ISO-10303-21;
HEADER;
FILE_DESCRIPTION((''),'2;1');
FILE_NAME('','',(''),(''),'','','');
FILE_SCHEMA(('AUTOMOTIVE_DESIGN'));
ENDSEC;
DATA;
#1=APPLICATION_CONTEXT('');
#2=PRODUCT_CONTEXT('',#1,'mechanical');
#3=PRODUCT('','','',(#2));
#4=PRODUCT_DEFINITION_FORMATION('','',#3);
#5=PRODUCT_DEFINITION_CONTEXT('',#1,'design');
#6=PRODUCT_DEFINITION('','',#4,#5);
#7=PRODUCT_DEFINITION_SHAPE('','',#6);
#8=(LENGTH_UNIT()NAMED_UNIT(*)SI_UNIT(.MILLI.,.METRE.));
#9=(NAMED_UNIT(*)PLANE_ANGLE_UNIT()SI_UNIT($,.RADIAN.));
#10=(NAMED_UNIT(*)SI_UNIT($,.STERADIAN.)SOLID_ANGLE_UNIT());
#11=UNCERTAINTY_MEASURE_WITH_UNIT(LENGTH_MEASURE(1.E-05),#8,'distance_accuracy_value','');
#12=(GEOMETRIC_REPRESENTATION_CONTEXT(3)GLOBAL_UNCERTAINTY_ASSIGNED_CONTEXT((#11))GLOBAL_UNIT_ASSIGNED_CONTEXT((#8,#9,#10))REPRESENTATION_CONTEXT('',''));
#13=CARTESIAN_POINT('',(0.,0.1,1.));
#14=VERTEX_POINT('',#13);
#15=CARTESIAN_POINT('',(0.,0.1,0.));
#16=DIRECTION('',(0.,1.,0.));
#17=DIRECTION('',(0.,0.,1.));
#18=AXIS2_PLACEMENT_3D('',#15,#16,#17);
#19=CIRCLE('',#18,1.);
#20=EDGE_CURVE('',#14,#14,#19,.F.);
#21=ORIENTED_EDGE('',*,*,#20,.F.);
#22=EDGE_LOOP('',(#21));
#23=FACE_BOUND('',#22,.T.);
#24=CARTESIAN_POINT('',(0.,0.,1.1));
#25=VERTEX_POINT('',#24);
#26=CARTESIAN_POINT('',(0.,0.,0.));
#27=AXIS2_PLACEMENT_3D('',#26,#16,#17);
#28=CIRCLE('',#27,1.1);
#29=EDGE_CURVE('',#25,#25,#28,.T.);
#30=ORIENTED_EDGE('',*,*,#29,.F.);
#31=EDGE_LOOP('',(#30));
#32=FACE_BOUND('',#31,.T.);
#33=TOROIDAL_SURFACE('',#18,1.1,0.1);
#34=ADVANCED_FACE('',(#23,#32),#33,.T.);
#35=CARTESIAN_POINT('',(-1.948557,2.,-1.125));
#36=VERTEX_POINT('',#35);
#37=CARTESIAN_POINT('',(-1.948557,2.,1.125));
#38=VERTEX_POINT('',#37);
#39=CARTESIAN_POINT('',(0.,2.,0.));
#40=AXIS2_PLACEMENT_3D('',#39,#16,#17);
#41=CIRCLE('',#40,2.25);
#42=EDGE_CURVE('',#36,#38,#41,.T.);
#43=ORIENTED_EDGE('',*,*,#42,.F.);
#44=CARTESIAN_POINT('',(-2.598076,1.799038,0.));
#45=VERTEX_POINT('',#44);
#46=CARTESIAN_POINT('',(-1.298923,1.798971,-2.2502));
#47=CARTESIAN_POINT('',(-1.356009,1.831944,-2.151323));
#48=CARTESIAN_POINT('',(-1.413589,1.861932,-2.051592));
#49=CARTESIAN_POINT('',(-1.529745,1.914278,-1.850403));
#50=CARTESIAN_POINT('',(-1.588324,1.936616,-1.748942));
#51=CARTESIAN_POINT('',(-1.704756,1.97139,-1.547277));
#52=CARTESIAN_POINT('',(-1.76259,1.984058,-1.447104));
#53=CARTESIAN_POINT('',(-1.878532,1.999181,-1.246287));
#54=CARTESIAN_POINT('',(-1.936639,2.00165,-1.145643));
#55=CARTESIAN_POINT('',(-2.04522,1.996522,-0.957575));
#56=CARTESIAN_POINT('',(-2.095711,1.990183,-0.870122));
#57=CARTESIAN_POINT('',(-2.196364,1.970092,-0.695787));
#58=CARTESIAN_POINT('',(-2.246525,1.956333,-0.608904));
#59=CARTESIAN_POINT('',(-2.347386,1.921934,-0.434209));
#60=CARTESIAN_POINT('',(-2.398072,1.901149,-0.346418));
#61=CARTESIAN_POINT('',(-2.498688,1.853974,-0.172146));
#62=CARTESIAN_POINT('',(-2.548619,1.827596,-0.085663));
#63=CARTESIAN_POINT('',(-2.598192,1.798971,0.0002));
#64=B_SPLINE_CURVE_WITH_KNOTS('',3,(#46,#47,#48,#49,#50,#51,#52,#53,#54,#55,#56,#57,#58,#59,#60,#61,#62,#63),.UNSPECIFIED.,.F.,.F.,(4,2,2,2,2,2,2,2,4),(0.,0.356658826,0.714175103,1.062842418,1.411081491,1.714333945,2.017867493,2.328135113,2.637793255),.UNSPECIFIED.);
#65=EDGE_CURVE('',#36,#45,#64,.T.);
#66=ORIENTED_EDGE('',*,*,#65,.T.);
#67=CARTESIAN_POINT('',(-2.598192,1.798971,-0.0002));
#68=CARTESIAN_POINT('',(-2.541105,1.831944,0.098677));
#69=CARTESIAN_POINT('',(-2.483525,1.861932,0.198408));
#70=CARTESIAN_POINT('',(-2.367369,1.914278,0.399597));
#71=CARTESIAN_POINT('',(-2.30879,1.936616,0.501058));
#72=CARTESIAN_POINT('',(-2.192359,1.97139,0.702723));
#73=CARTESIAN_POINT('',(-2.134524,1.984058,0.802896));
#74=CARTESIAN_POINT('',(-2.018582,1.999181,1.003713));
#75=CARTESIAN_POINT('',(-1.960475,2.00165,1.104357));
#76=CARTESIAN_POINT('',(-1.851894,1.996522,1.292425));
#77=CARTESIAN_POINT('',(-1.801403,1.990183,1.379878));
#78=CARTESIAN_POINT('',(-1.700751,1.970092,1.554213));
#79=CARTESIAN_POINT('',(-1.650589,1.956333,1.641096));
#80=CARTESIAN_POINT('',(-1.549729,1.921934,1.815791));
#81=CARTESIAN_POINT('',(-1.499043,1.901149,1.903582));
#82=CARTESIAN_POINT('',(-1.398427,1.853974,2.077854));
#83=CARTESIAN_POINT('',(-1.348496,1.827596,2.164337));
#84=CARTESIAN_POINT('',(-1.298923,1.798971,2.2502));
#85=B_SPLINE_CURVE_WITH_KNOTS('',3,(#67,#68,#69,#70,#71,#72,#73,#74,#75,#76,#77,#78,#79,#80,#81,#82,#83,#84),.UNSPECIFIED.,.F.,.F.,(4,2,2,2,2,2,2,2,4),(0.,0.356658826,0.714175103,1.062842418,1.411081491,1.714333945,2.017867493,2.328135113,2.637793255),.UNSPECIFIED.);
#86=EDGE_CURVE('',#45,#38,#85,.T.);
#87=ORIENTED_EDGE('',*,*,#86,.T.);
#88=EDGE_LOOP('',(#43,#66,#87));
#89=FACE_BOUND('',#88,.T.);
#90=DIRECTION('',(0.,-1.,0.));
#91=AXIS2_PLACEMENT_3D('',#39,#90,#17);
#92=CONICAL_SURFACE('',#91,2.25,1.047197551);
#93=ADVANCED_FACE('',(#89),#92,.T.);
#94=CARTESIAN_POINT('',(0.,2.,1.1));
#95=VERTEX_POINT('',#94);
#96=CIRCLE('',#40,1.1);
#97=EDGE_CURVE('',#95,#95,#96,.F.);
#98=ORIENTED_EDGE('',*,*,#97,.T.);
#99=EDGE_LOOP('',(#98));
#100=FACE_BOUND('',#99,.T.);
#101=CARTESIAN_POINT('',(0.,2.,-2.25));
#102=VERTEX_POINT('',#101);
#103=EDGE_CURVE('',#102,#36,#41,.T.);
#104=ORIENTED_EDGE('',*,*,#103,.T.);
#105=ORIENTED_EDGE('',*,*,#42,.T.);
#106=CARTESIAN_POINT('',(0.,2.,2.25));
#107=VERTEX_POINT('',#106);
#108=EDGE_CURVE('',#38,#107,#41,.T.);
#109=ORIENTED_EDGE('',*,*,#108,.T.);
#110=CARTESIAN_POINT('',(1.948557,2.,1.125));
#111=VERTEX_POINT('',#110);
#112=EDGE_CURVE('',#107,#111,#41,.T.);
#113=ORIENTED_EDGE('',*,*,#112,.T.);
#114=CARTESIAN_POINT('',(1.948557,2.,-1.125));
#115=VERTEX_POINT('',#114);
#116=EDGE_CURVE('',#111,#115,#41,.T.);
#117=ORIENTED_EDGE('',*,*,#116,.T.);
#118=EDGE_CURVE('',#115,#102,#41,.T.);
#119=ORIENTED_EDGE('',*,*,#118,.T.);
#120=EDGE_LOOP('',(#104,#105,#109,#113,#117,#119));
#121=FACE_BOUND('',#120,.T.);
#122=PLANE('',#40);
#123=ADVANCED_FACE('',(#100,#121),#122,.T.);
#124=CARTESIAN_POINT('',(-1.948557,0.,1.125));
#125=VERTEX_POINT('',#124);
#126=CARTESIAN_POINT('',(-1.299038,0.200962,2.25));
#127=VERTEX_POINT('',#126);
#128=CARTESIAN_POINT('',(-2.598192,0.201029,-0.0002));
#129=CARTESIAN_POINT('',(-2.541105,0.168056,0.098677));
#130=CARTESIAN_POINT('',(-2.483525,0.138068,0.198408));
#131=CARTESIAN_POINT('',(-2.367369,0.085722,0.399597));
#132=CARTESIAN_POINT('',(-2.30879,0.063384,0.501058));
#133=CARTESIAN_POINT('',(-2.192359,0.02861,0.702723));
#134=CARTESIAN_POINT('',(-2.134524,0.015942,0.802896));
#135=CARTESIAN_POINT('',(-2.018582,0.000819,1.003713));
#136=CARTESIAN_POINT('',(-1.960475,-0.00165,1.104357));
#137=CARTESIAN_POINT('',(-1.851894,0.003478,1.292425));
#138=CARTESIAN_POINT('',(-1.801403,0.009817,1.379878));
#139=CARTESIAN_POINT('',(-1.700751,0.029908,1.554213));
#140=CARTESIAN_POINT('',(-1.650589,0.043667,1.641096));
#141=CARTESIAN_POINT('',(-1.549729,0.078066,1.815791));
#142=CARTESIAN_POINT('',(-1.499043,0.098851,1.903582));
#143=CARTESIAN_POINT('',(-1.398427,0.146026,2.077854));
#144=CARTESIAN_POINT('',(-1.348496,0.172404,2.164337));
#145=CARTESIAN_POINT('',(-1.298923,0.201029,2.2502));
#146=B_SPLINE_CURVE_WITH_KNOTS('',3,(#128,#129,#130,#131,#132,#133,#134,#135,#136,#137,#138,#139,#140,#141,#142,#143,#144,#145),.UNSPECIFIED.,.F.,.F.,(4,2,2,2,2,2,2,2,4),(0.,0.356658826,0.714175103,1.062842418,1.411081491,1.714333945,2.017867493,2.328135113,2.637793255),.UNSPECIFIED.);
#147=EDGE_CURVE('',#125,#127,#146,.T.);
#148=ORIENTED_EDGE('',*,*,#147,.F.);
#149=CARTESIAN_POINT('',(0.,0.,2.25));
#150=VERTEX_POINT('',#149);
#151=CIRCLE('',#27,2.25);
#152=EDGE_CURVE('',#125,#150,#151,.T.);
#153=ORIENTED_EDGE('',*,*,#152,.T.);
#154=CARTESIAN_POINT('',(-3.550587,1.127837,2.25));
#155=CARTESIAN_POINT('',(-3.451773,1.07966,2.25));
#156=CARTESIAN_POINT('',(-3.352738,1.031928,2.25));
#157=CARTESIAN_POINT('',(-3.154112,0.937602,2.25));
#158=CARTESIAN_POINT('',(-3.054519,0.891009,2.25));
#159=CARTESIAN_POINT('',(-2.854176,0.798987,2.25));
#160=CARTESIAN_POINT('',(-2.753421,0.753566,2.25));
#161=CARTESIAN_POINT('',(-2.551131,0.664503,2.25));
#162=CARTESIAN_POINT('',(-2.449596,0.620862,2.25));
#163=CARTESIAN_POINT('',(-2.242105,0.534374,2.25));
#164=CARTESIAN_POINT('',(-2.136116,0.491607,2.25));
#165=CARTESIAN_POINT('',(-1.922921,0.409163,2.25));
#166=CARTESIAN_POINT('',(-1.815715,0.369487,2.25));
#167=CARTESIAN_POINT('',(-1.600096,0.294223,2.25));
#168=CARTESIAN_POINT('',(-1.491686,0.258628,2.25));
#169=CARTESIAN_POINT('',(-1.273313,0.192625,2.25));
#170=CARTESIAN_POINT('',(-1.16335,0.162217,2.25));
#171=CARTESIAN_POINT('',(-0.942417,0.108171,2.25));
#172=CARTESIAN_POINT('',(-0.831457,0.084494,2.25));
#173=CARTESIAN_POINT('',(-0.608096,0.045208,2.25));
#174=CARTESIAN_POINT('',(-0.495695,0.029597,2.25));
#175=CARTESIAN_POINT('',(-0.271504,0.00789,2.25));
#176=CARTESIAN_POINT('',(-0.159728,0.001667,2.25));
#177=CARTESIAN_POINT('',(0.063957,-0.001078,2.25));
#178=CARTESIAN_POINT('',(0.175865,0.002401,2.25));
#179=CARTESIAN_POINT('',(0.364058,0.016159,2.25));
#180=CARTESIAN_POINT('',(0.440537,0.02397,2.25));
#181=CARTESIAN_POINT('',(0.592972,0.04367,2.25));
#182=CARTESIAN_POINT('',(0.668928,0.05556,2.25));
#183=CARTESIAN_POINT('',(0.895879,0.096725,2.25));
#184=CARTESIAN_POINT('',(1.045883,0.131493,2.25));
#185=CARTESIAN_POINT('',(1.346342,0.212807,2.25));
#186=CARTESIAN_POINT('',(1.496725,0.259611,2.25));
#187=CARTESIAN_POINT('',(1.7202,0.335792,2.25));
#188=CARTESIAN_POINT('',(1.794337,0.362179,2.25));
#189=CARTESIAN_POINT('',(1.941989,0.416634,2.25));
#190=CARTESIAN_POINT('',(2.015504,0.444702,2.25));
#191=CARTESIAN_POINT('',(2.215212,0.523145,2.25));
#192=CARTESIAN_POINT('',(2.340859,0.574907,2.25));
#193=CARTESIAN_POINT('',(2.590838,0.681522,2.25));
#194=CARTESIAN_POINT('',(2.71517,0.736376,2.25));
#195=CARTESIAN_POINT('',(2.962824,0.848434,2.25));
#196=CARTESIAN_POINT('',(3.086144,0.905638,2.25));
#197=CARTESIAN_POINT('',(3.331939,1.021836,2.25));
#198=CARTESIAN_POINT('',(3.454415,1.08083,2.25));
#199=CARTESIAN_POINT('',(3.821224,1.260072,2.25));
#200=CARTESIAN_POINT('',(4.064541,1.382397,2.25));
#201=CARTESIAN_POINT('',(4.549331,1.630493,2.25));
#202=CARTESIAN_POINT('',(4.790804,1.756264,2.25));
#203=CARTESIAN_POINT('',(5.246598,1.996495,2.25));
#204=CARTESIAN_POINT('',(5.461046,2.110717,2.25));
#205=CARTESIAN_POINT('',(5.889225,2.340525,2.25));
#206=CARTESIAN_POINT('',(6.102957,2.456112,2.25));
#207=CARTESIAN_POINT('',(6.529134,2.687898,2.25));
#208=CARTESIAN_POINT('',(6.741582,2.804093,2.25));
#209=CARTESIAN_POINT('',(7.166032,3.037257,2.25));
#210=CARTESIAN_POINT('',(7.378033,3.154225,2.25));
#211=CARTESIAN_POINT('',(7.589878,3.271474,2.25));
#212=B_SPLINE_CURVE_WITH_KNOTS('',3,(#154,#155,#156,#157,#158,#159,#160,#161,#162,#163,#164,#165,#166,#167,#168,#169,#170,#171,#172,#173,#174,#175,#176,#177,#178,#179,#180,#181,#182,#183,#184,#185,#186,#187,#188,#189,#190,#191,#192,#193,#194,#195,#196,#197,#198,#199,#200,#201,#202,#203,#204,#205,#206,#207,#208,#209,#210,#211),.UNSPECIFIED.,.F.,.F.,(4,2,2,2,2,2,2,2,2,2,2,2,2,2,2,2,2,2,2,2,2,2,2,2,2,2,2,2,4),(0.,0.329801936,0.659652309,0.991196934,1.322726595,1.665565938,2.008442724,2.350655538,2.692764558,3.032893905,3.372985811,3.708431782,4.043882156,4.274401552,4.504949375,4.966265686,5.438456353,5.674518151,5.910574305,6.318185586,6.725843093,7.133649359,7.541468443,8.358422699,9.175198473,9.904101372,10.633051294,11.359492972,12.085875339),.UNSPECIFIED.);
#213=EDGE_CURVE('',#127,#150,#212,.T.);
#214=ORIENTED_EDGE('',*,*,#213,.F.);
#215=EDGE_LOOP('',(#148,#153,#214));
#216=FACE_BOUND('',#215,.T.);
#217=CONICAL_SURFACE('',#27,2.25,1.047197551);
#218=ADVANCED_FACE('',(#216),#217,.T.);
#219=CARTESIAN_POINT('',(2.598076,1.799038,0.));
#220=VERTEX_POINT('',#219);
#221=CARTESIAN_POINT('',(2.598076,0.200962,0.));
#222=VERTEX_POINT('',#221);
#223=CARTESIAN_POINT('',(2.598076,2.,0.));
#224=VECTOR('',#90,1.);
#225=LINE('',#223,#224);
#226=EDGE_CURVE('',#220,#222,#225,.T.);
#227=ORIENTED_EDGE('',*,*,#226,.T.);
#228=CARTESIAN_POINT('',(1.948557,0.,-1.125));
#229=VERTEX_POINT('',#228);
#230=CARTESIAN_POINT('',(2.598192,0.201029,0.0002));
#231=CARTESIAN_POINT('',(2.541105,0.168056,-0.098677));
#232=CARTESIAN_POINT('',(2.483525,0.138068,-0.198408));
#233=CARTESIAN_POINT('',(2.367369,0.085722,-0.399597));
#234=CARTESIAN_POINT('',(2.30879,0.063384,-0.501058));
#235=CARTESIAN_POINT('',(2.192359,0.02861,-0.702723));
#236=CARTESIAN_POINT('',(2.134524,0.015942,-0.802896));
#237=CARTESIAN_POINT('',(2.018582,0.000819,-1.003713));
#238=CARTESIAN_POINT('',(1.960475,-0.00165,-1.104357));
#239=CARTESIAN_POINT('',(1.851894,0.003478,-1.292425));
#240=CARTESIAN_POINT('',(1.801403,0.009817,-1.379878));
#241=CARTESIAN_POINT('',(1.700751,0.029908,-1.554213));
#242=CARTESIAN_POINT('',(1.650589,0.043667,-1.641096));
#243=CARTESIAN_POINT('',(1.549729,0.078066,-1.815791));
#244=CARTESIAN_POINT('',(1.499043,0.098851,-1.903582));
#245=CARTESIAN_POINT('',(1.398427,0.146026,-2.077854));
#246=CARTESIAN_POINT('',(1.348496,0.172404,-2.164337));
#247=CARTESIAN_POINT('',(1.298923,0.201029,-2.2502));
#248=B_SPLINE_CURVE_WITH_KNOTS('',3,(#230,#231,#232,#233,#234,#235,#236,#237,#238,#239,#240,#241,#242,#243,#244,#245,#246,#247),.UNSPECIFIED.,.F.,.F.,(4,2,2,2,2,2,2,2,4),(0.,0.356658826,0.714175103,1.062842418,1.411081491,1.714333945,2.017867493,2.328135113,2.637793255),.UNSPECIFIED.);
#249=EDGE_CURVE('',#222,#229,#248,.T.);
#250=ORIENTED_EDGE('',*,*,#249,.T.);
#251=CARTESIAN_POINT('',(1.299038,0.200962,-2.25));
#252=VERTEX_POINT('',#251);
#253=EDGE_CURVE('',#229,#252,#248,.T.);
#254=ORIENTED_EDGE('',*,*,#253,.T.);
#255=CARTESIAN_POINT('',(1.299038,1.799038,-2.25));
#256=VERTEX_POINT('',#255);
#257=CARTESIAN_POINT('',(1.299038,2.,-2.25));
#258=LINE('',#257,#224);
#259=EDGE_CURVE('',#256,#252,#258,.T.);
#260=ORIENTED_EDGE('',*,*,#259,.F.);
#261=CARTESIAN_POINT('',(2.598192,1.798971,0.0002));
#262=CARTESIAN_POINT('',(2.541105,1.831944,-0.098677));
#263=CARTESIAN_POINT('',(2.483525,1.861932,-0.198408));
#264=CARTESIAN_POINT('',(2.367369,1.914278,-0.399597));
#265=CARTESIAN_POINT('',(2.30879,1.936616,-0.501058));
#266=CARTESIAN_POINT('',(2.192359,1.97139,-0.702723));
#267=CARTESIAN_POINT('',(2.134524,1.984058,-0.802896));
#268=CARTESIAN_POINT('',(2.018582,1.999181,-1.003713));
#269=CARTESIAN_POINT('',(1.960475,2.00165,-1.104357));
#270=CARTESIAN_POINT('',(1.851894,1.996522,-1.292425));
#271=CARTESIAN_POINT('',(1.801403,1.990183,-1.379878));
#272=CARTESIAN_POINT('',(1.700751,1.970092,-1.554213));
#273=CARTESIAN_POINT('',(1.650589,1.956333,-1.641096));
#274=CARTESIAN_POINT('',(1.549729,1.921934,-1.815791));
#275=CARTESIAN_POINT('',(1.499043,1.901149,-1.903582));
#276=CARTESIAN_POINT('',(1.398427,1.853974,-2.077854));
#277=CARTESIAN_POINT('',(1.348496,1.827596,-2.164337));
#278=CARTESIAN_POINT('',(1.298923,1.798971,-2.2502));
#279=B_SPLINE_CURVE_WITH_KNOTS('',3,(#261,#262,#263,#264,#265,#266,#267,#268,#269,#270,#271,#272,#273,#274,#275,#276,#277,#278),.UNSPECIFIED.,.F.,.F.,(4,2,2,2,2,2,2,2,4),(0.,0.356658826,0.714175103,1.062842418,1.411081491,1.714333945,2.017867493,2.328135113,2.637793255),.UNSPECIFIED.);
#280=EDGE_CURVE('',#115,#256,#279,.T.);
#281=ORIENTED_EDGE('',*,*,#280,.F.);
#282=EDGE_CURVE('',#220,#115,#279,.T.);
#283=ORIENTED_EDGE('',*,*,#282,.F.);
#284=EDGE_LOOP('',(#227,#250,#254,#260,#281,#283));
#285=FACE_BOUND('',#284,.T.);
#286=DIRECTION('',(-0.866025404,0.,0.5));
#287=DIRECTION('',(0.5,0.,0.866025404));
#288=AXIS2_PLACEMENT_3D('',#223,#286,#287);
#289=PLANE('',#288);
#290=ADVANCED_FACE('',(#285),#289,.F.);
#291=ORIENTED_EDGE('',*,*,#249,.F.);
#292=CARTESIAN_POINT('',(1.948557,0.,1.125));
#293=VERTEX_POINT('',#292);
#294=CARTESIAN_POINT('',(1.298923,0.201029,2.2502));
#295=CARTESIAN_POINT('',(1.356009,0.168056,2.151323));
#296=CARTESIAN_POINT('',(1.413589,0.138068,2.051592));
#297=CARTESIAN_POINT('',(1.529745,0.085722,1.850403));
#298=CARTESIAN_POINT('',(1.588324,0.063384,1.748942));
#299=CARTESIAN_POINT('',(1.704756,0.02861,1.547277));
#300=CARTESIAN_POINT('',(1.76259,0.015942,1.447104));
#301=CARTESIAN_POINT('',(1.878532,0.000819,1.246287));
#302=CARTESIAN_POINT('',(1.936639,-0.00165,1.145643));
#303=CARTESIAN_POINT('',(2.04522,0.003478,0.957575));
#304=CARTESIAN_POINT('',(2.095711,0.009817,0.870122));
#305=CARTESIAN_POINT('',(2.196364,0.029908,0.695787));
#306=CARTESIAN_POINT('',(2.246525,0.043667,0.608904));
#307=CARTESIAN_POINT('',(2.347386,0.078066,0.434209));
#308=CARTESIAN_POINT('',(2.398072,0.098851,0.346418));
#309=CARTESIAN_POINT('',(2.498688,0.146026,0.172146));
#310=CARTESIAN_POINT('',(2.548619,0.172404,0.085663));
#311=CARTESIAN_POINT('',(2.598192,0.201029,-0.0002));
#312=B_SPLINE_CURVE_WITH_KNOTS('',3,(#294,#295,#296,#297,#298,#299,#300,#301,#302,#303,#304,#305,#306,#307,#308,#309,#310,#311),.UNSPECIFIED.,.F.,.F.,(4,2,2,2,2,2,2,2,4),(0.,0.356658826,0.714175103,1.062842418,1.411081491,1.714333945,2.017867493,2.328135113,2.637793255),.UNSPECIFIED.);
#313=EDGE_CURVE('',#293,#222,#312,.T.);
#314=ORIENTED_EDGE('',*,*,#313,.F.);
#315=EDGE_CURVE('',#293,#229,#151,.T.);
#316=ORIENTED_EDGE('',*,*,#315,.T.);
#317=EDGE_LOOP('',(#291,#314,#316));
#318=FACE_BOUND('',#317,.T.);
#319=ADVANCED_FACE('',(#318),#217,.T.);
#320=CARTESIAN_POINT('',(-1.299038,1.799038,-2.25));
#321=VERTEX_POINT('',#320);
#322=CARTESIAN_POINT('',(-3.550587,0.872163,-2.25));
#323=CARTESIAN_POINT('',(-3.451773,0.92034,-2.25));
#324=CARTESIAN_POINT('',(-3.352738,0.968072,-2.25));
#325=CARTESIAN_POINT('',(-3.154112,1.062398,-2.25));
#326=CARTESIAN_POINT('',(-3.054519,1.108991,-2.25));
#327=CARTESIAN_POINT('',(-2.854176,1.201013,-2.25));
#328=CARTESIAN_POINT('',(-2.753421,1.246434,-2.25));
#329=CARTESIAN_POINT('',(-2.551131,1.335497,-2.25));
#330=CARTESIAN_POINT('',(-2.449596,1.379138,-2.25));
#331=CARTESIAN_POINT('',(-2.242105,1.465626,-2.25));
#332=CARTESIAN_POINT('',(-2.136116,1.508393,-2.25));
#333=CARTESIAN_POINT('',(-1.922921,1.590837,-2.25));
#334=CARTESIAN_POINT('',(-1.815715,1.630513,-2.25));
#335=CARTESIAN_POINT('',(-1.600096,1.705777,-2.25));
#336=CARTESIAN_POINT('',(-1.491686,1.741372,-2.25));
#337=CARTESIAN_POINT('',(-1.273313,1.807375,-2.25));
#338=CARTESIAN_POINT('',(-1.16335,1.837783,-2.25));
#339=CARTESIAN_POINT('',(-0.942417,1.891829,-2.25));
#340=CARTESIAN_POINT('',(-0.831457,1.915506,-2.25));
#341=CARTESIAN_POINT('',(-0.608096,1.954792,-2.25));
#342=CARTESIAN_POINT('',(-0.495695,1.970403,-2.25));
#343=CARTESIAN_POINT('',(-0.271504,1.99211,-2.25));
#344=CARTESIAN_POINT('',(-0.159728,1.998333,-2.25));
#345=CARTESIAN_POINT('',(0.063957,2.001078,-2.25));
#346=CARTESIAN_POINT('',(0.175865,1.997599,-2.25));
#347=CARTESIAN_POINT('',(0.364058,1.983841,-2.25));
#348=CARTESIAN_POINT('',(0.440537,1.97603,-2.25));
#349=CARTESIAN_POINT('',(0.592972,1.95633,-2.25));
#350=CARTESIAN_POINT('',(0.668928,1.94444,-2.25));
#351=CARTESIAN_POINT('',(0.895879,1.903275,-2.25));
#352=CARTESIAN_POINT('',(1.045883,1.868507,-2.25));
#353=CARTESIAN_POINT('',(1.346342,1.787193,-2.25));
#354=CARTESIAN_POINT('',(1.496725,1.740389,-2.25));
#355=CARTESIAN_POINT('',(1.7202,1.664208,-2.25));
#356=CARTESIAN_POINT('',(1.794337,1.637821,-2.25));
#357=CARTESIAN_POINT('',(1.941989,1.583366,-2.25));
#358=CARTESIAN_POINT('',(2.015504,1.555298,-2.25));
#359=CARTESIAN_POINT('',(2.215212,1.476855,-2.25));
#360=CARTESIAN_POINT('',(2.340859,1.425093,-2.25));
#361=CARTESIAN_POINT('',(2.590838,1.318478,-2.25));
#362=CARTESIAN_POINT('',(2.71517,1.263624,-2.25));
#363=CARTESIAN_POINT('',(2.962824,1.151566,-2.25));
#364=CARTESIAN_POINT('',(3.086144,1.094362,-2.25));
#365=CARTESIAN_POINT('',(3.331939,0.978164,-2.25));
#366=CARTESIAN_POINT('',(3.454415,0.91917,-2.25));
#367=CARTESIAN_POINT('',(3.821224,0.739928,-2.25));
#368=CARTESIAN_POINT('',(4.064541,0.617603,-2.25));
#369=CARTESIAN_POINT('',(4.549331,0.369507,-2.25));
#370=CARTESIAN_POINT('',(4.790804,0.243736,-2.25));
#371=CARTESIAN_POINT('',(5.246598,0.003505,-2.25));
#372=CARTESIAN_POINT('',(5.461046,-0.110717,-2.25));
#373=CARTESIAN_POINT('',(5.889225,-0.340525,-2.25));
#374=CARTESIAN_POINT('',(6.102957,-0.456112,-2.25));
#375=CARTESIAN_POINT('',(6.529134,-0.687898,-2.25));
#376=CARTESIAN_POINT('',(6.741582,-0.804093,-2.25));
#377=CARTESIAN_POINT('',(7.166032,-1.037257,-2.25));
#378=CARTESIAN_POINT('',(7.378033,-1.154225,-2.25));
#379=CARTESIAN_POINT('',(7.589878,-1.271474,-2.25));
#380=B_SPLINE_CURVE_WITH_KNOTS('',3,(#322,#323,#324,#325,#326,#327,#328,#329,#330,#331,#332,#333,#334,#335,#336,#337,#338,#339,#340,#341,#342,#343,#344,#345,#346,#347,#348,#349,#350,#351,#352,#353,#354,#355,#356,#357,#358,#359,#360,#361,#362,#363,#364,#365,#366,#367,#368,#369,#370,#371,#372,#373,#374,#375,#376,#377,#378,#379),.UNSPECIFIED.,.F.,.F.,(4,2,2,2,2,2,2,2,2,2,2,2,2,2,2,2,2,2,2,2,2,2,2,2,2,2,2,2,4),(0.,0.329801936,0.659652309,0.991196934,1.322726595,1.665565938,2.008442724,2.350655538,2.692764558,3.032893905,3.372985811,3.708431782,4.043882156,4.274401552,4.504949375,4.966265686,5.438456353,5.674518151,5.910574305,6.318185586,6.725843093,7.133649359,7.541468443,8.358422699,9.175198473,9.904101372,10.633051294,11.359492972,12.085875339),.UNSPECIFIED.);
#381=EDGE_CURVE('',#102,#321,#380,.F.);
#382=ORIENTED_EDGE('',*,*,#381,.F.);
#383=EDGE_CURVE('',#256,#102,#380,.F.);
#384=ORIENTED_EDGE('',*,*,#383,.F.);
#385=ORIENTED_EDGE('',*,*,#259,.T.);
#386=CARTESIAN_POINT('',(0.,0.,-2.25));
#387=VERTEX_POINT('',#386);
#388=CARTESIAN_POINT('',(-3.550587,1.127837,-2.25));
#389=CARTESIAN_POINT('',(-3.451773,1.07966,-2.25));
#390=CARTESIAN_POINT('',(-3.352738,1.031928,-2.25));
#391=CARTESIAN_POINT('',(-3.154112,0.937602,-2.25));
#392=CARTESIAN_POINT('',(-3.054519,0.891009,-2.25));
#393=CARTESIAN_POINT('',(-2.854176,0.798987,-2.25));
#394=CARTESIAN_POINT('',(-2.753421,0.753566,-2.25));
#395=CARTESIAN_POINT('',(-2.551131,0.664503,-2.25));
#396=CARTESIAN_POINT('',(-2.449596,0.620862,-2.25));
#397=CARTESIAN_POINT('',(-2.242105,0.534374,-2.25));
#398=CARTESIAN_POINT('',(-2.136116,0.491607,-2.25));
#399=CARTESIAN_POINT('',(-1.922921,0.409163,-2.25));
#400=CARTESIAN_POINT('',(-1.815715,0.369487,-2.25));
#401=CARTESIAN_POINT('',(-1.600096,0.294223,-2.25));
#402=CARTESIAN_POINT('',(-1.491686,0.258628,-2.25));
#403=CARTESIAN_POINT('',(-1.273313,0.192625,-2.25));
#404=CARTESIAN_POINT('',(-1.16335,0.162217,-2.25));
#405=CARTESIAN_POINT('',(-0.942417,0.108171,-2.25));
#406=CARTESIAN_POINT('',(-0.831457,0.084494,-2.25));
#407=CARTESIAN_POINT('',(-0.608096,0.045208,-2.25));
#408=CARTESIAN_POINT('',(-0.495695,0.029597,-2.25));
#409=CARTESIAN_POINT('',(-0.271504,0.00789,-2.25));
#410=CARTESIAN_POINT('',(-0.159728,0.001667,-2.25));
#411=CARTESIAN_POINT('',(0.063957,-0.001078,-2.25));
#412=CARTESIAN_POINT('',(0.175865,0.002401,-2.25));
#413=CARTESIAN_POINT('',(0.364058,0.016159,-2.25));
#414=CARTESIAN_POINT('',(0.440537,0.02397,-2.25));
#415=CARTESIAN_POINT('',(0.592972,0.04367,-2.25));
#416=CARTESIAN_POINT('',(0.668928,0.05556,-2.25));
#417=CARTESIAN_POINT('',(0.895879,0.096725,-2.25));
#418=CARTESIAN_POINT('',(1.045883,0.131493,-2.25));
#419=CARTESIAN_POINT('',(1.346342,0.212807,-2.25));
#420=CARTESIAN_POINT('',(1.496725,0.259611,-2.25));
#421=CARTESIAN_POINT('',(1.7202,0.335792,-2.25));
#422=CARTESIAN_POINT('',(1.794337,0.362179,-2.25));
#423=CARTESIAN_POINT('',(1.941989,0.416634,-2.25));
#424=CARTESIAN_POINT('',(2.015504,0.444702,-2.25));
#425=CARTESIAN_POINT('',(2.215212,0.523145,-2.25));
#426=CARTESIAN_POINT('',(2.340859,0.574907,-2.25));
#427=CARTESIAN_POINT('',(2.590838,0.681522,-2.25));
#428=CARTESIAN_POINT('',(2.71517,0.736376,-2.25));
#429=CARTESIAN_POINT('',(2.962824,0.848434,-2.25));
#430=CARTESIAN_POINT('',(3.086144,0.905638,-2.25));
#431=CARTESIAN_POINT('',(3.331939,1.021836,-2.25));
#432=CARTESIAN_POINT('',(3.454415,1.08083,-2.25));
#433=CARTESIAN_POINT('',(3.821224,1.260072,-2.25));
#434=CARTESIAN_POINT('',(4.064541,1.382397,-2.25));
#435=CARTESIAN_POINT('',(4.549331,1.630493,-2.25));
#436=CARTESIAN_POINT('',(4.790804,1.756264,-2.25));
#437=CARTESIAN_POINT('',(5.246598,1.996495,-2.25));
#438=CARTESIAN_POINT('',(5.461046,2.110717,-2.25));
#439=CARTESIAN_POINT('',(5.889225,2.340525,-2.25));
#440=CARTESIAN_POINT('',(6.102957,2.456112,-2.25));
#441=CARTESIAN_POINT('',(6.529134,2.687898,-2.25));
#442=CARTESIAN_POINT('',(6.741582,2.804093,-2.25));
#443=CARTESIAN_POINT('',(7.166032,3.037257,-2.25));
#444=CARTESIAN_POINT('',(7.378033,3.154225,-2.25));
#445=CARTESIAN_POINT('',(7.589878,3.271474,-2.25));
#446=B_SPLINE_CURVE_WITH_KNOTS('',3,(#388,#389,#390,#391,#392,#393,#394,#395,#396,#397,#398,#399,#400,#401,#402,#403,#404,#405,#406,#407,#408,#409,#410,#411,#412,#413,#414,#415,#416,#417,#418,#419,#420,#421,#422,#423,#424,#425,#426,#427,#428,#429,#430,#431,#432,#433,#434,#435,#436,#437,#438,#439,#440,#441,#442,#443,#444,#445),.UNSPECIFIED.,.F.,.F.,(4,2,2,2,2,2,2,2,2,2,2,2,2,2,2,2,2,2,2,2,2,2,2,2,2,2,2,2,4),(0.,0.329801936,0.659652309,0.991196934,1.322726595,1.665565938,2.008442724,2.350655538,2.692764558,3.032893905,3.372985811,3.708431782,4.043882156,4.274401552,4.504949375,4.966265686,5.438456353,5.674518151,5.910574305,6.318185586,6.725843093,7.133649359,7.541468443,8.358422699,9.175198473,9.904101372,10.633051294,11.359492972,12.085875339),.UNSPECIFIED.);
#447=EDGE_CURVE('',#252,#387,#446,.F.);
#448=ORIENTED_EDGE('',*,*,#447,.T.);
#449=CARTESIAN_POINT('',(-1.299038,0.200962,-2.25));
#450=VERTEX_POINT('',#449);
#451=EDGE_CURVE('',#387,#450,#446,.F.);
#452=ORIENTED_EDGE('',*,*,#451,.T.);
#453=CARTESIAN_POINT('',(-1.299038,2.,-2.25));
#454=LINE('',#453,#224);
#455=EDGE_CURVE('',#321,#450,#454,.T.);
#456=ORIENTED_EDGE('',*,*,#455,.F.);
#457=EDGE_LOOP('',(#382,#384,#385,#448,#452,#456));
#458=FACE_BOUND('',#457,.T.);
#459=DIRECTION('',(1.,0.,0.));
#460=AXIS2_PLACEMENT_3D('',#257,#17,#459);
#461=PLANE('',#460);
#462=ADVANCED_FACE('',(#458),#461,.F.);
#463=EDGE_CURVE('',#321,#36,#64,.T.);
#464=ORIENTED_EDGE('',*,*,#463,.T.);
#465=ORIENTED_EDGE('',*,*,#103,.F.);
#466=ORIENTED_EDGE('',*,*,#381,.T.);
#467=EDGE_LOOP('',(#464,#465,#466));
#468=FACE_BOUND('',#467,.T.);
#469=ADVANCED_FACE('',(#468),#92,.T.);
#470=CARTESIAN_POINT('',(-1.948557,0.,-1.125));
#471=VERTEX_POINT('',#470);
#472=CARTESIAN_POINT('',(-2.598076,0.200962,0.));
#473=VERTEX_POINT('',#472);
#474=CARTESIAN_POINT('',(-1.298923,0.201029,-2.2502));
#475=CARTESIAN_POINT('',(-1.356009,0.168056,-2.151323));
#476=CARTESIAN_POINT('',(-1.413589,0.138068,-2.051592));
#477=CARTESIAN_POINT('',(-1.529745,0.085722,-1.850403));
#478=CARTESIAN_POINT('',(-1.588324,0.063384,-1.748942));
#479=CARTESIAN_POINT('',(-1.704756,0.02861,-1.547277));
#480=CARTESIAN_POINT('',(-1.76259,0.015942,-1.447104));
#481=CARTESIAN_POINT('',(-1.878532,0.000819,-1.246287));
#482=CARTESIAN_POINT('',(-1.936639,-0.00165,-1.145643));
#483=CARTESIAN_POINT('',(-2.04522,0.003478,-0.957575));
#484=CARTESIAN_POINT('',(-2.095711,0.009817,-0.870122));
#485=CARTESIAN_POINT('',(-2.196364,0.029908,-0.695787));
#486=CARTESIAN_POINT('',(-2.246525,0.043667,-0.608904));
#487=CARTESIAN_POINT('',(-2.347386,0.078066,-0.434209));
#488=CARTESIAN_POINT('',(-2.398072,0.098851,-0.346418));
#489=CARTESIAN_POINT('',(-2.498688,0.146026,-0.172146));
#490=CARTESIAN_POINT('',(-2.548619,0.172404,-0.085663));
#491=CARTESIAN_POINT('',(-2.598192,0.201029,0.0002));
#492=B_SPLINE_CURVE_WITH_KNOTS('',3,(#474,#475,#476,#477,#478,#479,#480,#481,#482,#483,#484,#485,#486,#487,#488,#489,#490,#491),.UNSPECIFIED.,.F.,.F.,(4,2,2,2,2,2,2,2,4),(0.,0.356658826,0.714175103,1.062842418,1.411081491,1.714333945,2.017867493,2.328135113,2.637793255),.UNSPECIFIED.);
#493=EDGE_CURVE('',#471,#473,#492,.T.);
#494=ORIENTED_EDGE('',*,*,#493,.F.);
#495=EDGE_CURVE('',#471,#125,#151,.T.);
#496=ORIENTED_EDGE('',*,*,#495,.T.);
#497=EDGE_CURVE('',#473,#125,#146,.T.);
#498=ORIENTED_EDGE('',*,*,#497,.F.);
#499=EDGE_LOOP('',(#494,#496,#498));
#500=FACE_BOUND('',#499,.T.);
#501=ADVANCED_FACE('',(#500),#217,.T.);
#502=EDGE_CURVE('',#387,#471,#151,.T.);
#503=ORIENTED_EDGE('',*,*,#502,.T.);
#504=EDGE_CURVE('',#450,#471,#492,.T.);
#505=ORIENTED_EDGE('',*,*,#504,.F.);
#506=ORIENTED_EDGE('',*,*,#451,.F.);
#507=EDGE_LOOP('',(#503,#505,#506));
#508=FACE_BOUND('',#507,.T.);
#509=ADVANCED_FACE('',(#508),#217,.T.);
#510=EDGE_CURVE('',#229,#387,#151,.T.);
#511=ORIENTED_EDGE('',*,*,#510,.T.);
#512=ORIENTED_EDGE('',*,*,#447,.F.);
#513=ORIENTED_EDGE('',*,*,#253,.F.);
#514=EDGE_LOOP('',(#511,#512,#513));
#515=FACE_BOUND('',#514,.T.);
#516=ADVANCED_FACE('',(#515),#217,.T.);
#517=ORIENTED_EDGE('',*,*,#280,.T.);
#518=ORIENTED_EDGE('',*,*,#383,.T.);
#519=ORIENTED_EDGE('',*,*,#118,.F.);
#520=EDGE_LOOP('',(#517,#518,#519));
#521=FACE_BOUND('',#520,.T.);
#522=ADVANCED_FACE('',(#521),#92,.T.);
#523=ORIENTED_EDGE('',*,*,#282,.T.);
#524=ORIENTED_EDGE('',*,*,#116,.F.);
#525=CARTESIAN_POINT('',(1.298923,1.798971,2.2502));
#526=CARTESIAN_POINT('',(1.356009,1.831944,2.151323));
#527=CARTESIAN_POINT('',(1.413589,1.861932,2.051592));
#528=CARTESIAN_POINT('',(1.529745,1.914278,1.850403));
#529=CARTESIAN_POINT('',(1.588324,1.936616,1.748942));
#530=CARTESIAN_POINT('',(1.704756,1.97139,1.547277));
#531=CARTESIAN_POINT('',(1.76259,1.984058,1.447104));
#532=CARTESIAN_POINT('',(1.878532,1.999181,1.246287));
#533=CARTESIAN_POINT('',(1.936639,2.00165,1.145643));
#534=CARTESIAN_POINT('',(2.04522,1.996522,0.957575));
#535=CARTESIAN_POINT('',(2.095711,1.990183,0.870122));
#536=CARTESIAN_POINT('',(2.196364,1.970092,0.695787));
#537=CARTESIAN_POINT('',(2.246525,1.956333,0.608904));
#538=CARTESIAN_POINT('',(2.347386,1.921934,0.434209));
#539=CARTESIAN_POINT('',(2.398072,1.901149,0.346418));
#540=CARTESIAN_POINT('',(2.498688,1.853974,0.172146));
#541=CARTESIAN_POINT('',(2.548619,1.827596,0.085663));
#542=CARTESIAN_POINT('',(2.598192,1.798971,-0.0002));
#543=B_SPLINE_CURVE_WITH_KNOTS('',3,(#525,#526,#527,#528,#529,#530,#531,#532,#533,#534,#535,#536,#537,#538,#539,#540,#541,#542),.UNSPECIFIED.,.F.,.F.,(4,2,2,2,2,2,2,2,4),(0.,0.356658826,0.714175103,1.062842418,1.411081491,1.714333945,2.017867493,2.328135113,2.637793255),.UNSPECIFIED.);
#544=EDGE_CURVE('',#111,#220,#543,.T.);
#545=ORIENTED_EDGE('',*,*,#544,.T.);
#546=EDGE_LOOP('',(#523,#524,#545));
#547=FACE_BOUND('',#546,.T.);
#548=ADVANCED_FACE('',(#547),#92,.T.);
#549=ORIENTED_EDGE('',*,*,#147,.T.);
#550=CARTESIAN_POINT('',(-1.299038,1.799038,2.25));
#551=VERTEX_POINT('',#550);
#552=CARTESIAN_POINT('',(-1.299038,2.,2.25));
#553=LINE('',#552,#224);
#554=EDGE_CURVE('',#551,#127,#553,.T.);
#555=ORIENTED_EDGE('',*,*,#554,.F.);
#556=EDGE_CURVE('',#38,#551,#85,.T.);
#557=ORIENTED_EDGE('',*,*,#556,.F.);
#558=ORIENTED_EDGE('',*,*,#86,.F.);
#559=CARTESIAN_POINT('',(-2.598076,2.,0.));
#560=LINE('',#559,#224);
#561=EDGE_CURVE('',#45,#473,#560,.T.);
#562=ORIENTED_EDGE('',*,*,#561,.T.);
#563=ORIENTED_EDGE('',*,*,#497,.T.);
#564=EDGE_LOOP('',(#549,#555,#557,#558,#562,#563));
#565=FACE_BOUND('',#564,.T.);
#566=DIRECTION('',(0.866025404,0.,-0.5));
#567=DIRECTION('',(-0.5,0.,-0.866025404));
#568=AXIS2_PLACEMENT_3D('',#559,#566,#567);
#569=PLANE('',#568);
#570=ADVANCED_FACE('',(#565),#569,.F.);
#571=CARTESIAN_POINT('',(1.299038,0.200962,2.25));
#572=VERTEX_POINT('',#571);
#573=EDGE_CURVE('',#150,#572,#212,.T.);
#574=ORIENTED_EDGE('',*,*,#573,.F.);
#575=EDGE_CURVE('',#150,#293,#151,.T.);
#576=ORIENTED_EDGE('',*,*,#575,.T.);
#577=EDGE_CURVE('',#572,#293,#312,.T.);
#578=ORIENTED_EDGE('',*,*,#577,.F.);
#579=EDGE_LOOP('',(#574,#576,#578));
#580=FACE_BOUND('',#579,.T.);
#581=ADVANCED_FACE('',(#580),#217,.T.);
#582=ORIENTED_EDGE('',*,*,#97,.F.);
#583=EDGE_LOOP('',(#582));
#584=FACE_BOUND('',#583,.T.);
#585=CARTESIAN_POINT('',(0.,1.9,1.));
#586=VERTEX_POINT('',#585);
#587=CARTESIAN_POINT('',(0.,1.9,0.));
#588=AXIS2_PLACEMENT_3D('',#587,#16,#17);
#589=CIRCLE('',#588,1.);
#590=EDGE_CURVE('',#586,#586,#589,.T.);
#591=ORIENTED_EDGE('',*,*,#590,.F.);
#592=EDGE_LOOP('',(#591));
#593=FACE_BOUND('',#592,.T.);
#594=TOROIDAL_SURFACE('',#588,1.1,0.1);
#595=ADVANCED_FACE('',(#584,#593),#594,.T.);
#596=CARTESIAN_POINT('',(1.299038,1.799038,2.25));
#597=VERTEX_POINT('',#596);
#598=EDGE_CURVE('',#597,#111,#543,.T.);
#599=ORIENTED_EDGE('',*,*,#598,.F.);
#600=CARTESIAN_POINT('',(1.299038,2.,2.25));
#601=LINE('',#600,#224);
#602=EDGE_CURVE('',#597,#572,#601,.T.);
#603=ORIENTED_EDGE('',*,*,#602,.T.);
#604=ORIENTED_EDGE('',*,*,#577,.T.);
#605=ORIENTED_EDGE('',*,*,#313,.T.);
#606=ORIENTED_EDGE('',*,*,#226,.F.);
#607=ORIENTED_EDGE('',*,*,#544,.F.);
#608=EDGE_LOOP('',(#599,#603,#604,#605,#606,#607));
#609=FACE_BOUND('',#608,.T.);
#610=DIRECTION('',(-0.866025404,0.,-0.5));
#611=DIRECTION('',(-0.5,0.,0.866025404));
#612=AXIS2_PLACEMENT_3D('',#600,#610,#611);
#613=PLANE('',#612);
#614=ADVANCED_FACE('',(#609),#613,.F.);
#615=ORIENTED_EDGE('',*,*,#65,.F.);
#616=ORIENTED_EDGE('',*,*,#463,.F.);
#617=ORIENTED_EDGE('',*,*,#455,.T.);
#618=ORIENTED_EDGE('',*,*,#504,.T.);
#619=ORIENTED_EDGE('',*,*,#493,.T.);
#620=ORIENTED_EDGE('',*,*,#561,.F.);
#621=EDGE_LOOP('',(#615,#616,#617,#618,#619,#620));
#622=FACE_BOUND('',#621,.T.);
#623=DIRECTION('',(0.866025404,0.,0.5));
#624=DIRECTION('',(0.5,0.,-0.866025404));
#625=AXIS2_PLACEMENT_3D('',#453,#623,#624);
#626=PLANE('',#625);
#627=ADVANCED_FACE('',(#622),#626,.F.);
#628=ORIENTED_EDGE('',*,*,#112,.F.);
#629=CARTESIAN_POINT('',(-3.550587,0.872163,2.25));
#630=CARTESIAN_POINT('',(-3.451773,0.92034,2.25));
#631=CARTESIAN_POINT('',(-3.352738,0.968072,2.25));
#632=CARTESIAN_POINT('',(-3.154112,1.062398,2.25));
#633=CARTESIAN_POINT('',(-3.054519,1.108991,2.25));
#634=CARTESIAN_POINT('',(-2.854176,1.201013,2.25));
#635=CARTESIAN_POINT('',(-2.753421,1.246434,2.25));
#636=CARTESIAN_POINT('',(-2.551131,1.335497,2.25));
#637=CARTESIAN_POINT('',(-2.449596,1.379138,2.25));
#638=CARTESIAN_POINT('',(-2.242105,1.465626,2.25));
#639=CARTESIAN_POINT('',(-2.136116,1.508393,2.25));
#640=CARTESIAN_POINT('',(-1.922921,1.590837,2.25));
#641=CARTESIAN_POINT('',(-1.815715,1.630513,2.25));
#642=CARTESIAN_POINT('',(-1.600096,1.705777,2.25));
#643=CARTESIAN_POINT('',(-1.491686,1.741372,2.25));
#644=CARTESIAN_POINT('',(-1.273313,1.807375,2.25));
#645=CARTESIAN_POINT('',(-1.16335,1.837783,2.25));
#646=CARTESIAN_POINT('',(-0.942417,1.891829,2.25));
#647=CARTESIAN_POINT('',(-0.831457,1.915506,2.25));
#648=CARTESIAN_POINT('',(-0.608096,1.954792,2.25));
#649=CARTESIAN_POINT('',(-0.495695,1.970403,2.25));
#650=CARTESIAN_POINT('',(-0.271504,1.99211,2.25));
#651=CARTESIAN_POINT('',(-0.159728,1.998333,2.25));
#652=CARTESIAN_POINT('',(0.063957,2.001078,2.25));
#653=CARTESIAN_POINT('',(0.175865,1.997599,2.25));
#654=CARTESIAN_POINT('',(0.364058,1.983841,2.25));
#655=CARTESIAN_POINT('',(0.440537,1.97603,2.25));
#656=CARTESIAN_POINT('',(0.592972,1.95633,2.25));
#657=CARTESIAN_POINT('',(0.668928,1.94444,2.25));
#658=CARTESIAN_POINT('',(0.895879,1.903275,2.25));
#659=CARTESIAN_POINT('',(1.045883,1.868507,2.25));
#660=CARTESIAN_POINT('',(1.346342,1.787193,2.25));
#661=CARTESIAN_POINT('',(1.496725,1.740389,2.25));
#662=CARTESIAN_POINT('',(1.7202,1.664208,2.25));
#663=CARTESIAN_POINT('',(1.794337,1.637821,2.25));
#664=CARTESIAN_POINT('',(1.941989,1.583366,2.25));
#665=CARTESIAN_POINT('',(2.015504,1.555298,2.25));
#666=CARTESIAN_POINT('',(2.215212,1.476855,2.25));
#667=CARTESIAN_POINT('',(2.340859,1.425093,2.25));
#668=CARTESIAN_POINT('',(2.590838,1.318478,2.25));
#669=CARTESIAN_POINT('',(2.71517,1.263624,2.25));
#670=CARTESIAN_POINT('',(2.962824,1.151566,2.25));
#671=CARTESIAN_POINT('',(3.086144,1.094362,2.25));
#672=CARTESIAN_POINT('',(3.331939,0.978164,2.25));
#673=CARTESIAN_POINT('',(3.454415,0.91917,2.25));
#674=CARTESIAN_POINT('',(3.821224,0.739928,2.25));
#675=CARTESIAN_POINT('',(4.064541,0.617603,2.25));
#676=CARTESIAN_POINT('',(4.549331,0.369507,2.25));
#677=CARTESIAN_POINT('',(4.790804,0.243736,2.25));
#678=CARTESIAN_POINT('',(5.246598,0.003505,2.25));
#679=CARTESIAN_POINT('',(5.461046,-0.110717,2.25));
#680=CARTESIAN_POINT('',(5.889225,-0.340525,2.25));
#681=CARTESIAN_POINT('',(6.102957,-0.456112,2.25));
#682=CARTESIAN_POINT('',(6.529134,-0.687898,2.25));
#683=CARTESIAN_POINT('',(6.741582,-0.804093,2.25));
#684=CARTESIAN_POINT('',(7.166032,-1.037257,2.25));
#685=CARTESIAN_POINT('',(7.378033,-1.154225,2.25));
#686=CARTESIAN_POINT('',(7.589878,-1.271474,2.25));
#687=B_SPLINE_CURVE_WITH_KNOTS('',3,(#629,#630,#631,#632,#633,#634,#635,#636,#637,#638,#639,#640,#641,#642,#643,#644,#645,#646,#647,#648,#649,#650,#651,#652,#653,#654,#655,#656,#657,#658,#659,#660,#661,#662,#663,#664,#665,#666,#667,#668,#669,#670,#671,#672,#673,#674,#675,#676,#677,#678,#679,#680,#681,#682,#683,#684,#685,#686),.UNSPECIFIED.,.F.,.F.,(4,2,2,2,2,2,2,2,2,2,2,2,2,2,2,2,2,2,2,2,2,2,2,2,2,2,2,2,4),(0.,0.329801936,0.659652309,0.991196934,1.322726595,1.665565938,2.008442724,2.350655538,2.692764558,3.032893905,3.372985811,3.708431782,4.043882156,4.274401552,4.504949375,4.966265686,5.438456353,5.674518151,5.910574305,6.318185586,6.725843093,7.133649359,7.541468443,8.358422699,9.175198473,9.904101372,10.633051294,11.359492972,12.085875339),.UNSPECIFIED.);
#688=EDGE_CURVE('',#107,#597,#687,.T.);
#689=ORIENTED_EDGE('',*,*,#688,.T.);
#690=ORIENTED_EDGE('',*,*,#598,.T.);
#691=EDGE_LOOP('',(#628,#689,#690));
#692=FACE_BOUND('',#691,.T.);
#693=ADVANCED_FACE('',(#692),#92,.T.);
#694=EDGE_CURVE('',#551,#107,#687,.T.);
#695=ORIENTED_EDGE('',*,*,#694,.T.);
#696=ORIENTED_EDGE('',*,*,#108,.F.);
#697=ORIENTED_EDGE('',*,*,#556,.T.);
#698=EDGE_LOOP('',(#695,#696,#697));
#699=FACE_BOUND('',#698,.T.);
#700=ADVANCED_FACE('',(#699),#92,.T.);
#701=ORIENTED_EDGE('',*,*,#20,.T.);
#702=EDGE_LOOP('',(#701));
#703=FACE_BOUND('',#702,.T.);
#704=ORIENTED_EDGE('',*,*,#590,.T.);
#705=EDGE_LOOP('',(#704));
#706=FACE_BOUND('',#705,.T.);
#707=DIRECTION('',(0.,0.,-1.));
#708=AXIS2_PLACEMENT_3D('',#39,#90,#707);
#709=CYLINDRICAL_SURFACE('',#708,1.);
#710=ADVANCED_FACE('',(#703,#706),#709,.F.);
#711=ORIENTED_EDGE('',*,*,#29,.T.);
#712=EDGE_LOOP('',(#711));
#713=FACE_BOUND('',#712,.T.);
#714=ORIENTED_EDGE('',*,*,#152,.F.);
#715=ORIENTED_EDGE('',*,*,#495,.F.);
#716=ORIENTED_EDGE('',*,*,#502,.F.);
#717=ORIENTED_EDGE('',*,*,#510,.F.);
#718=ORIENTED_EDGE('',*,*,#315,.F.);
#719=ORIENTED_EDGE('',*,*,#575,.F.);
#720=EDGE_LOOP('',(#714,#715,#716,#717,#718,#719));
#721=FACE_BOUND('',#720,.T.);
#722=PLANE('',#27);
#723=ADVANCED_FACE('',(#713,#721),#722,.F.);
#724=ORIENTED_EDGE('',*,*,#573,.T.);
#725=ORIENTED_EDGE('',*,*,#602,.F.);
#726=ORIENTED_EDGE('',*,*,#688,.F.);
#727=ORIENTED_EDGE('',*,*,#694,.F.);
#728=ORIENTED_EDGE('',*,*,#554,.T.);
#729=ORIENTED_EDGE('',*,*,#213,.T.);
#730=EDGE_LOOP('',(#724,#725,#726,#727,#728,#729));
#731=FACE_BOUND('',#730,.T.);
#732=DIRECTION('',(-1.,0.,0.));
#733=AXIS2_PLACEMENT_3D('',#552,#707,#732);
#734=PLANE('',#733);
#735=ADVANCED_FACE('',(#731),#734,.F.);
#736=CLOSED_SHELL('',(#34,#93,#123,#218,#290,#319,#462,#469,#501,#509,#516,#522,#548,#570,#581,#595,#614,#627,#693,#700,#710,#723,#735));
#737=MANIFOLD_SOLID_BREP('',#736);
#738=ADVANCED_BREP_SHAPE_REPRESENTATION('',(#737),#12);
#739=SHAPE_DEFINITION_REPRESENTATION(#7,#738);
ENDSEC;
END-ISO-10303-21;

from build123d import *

# Parameters (mm, degrees)
SKETCH1_R           = 1
BOSS_EXTRUDE1_DEPTH = 2
SKETCH2_OUTSIDE_W   = 15.556
SKETCH2_OUTSIDE_H   = 14.86
SKETCH2_OUTSIDE_R   = 2.25
CUT_EXTRUDE2_DEPTH  = 2
CUT_EXTRUDE2_TAPER  = 60
SKETCH3_OUTSIDE_W   = 15.556
SKETCH3_OUTSIDE_H   = 14.86
SKETCH3_OUTSIDE_R   = 2.25
CUT_EXTRUDE3_DEPTH  = 2
CUT_EXTRUDE3_TAPER  = 60
FILLET2_R           = 0.1


with BuildPart() as part:
    # Sketch1 → Boss-Extrude1 (new body)
    with BuildSketch(Plane(origin=(0, 0, 0), x_dir=(1, 0, 0), z_dir=(0, 1, 0))):
        Polygon((2.598076211, 0), (1.299038106, 2.25), (-1.299038106, 2.25), (-2.598076211, 0), (-1.299038106, -2.25), (1.299038106, -2.25), align=None)
        Circle(SKETCH1_R, mode=Mode.SUBTRACT)
    extrude(amount=BOSS_EXTRUDE1_DEPTH)

    # Sketch2 outside → Cut-Extrude2 (cut)
    with BuildSketch(Plane(origin=(0, 0, 0), x_dir=(1, 0, 0), z_dir=(0, 1, 0))):
        Rectangle(SKETCH2_OUTSIDE_W, SKETCH2_OUTSIDE_H)
        Circle(SKETCH2_OUTSIDE_R, mode=Mode.SUBTRACT)
    extrude(amount=CUT_EXTRUDE2_DEPTH, taper=CUT_EXTRUDE2_TAPER, mode=Mode.SUBTRACT)

    # Sketch3 outside → Cut-Extrude3 (cut)
    with BuildSketch(Plane(origin=(0, 2, 0), x_dir=(1, 0, 0), z_dir=(0, 1, 0))):
        Rectangle(SKETCH3_OUTSIDE_W, SKETCH3_OUTSIDE_H)
        Circle(SKETCH3_OUTSIDE_R, mode=Mode.SUBTRACT)
    extrude(amount=-CUT_EXTRUDE3_DEPTH, taper=CUT_EXTRUDE3_TAPER, mode=Mode.SUBTRACT)

    # Fillet2
    fillet2_edges = [part.edges().sort_by_distance(p)[0] for p in [
        (-1, 0, 0),
        (-1, 2, 0),
    ]]
    fillet(fillet2_edges, radius=FILLET2_R)


solid = part.part
